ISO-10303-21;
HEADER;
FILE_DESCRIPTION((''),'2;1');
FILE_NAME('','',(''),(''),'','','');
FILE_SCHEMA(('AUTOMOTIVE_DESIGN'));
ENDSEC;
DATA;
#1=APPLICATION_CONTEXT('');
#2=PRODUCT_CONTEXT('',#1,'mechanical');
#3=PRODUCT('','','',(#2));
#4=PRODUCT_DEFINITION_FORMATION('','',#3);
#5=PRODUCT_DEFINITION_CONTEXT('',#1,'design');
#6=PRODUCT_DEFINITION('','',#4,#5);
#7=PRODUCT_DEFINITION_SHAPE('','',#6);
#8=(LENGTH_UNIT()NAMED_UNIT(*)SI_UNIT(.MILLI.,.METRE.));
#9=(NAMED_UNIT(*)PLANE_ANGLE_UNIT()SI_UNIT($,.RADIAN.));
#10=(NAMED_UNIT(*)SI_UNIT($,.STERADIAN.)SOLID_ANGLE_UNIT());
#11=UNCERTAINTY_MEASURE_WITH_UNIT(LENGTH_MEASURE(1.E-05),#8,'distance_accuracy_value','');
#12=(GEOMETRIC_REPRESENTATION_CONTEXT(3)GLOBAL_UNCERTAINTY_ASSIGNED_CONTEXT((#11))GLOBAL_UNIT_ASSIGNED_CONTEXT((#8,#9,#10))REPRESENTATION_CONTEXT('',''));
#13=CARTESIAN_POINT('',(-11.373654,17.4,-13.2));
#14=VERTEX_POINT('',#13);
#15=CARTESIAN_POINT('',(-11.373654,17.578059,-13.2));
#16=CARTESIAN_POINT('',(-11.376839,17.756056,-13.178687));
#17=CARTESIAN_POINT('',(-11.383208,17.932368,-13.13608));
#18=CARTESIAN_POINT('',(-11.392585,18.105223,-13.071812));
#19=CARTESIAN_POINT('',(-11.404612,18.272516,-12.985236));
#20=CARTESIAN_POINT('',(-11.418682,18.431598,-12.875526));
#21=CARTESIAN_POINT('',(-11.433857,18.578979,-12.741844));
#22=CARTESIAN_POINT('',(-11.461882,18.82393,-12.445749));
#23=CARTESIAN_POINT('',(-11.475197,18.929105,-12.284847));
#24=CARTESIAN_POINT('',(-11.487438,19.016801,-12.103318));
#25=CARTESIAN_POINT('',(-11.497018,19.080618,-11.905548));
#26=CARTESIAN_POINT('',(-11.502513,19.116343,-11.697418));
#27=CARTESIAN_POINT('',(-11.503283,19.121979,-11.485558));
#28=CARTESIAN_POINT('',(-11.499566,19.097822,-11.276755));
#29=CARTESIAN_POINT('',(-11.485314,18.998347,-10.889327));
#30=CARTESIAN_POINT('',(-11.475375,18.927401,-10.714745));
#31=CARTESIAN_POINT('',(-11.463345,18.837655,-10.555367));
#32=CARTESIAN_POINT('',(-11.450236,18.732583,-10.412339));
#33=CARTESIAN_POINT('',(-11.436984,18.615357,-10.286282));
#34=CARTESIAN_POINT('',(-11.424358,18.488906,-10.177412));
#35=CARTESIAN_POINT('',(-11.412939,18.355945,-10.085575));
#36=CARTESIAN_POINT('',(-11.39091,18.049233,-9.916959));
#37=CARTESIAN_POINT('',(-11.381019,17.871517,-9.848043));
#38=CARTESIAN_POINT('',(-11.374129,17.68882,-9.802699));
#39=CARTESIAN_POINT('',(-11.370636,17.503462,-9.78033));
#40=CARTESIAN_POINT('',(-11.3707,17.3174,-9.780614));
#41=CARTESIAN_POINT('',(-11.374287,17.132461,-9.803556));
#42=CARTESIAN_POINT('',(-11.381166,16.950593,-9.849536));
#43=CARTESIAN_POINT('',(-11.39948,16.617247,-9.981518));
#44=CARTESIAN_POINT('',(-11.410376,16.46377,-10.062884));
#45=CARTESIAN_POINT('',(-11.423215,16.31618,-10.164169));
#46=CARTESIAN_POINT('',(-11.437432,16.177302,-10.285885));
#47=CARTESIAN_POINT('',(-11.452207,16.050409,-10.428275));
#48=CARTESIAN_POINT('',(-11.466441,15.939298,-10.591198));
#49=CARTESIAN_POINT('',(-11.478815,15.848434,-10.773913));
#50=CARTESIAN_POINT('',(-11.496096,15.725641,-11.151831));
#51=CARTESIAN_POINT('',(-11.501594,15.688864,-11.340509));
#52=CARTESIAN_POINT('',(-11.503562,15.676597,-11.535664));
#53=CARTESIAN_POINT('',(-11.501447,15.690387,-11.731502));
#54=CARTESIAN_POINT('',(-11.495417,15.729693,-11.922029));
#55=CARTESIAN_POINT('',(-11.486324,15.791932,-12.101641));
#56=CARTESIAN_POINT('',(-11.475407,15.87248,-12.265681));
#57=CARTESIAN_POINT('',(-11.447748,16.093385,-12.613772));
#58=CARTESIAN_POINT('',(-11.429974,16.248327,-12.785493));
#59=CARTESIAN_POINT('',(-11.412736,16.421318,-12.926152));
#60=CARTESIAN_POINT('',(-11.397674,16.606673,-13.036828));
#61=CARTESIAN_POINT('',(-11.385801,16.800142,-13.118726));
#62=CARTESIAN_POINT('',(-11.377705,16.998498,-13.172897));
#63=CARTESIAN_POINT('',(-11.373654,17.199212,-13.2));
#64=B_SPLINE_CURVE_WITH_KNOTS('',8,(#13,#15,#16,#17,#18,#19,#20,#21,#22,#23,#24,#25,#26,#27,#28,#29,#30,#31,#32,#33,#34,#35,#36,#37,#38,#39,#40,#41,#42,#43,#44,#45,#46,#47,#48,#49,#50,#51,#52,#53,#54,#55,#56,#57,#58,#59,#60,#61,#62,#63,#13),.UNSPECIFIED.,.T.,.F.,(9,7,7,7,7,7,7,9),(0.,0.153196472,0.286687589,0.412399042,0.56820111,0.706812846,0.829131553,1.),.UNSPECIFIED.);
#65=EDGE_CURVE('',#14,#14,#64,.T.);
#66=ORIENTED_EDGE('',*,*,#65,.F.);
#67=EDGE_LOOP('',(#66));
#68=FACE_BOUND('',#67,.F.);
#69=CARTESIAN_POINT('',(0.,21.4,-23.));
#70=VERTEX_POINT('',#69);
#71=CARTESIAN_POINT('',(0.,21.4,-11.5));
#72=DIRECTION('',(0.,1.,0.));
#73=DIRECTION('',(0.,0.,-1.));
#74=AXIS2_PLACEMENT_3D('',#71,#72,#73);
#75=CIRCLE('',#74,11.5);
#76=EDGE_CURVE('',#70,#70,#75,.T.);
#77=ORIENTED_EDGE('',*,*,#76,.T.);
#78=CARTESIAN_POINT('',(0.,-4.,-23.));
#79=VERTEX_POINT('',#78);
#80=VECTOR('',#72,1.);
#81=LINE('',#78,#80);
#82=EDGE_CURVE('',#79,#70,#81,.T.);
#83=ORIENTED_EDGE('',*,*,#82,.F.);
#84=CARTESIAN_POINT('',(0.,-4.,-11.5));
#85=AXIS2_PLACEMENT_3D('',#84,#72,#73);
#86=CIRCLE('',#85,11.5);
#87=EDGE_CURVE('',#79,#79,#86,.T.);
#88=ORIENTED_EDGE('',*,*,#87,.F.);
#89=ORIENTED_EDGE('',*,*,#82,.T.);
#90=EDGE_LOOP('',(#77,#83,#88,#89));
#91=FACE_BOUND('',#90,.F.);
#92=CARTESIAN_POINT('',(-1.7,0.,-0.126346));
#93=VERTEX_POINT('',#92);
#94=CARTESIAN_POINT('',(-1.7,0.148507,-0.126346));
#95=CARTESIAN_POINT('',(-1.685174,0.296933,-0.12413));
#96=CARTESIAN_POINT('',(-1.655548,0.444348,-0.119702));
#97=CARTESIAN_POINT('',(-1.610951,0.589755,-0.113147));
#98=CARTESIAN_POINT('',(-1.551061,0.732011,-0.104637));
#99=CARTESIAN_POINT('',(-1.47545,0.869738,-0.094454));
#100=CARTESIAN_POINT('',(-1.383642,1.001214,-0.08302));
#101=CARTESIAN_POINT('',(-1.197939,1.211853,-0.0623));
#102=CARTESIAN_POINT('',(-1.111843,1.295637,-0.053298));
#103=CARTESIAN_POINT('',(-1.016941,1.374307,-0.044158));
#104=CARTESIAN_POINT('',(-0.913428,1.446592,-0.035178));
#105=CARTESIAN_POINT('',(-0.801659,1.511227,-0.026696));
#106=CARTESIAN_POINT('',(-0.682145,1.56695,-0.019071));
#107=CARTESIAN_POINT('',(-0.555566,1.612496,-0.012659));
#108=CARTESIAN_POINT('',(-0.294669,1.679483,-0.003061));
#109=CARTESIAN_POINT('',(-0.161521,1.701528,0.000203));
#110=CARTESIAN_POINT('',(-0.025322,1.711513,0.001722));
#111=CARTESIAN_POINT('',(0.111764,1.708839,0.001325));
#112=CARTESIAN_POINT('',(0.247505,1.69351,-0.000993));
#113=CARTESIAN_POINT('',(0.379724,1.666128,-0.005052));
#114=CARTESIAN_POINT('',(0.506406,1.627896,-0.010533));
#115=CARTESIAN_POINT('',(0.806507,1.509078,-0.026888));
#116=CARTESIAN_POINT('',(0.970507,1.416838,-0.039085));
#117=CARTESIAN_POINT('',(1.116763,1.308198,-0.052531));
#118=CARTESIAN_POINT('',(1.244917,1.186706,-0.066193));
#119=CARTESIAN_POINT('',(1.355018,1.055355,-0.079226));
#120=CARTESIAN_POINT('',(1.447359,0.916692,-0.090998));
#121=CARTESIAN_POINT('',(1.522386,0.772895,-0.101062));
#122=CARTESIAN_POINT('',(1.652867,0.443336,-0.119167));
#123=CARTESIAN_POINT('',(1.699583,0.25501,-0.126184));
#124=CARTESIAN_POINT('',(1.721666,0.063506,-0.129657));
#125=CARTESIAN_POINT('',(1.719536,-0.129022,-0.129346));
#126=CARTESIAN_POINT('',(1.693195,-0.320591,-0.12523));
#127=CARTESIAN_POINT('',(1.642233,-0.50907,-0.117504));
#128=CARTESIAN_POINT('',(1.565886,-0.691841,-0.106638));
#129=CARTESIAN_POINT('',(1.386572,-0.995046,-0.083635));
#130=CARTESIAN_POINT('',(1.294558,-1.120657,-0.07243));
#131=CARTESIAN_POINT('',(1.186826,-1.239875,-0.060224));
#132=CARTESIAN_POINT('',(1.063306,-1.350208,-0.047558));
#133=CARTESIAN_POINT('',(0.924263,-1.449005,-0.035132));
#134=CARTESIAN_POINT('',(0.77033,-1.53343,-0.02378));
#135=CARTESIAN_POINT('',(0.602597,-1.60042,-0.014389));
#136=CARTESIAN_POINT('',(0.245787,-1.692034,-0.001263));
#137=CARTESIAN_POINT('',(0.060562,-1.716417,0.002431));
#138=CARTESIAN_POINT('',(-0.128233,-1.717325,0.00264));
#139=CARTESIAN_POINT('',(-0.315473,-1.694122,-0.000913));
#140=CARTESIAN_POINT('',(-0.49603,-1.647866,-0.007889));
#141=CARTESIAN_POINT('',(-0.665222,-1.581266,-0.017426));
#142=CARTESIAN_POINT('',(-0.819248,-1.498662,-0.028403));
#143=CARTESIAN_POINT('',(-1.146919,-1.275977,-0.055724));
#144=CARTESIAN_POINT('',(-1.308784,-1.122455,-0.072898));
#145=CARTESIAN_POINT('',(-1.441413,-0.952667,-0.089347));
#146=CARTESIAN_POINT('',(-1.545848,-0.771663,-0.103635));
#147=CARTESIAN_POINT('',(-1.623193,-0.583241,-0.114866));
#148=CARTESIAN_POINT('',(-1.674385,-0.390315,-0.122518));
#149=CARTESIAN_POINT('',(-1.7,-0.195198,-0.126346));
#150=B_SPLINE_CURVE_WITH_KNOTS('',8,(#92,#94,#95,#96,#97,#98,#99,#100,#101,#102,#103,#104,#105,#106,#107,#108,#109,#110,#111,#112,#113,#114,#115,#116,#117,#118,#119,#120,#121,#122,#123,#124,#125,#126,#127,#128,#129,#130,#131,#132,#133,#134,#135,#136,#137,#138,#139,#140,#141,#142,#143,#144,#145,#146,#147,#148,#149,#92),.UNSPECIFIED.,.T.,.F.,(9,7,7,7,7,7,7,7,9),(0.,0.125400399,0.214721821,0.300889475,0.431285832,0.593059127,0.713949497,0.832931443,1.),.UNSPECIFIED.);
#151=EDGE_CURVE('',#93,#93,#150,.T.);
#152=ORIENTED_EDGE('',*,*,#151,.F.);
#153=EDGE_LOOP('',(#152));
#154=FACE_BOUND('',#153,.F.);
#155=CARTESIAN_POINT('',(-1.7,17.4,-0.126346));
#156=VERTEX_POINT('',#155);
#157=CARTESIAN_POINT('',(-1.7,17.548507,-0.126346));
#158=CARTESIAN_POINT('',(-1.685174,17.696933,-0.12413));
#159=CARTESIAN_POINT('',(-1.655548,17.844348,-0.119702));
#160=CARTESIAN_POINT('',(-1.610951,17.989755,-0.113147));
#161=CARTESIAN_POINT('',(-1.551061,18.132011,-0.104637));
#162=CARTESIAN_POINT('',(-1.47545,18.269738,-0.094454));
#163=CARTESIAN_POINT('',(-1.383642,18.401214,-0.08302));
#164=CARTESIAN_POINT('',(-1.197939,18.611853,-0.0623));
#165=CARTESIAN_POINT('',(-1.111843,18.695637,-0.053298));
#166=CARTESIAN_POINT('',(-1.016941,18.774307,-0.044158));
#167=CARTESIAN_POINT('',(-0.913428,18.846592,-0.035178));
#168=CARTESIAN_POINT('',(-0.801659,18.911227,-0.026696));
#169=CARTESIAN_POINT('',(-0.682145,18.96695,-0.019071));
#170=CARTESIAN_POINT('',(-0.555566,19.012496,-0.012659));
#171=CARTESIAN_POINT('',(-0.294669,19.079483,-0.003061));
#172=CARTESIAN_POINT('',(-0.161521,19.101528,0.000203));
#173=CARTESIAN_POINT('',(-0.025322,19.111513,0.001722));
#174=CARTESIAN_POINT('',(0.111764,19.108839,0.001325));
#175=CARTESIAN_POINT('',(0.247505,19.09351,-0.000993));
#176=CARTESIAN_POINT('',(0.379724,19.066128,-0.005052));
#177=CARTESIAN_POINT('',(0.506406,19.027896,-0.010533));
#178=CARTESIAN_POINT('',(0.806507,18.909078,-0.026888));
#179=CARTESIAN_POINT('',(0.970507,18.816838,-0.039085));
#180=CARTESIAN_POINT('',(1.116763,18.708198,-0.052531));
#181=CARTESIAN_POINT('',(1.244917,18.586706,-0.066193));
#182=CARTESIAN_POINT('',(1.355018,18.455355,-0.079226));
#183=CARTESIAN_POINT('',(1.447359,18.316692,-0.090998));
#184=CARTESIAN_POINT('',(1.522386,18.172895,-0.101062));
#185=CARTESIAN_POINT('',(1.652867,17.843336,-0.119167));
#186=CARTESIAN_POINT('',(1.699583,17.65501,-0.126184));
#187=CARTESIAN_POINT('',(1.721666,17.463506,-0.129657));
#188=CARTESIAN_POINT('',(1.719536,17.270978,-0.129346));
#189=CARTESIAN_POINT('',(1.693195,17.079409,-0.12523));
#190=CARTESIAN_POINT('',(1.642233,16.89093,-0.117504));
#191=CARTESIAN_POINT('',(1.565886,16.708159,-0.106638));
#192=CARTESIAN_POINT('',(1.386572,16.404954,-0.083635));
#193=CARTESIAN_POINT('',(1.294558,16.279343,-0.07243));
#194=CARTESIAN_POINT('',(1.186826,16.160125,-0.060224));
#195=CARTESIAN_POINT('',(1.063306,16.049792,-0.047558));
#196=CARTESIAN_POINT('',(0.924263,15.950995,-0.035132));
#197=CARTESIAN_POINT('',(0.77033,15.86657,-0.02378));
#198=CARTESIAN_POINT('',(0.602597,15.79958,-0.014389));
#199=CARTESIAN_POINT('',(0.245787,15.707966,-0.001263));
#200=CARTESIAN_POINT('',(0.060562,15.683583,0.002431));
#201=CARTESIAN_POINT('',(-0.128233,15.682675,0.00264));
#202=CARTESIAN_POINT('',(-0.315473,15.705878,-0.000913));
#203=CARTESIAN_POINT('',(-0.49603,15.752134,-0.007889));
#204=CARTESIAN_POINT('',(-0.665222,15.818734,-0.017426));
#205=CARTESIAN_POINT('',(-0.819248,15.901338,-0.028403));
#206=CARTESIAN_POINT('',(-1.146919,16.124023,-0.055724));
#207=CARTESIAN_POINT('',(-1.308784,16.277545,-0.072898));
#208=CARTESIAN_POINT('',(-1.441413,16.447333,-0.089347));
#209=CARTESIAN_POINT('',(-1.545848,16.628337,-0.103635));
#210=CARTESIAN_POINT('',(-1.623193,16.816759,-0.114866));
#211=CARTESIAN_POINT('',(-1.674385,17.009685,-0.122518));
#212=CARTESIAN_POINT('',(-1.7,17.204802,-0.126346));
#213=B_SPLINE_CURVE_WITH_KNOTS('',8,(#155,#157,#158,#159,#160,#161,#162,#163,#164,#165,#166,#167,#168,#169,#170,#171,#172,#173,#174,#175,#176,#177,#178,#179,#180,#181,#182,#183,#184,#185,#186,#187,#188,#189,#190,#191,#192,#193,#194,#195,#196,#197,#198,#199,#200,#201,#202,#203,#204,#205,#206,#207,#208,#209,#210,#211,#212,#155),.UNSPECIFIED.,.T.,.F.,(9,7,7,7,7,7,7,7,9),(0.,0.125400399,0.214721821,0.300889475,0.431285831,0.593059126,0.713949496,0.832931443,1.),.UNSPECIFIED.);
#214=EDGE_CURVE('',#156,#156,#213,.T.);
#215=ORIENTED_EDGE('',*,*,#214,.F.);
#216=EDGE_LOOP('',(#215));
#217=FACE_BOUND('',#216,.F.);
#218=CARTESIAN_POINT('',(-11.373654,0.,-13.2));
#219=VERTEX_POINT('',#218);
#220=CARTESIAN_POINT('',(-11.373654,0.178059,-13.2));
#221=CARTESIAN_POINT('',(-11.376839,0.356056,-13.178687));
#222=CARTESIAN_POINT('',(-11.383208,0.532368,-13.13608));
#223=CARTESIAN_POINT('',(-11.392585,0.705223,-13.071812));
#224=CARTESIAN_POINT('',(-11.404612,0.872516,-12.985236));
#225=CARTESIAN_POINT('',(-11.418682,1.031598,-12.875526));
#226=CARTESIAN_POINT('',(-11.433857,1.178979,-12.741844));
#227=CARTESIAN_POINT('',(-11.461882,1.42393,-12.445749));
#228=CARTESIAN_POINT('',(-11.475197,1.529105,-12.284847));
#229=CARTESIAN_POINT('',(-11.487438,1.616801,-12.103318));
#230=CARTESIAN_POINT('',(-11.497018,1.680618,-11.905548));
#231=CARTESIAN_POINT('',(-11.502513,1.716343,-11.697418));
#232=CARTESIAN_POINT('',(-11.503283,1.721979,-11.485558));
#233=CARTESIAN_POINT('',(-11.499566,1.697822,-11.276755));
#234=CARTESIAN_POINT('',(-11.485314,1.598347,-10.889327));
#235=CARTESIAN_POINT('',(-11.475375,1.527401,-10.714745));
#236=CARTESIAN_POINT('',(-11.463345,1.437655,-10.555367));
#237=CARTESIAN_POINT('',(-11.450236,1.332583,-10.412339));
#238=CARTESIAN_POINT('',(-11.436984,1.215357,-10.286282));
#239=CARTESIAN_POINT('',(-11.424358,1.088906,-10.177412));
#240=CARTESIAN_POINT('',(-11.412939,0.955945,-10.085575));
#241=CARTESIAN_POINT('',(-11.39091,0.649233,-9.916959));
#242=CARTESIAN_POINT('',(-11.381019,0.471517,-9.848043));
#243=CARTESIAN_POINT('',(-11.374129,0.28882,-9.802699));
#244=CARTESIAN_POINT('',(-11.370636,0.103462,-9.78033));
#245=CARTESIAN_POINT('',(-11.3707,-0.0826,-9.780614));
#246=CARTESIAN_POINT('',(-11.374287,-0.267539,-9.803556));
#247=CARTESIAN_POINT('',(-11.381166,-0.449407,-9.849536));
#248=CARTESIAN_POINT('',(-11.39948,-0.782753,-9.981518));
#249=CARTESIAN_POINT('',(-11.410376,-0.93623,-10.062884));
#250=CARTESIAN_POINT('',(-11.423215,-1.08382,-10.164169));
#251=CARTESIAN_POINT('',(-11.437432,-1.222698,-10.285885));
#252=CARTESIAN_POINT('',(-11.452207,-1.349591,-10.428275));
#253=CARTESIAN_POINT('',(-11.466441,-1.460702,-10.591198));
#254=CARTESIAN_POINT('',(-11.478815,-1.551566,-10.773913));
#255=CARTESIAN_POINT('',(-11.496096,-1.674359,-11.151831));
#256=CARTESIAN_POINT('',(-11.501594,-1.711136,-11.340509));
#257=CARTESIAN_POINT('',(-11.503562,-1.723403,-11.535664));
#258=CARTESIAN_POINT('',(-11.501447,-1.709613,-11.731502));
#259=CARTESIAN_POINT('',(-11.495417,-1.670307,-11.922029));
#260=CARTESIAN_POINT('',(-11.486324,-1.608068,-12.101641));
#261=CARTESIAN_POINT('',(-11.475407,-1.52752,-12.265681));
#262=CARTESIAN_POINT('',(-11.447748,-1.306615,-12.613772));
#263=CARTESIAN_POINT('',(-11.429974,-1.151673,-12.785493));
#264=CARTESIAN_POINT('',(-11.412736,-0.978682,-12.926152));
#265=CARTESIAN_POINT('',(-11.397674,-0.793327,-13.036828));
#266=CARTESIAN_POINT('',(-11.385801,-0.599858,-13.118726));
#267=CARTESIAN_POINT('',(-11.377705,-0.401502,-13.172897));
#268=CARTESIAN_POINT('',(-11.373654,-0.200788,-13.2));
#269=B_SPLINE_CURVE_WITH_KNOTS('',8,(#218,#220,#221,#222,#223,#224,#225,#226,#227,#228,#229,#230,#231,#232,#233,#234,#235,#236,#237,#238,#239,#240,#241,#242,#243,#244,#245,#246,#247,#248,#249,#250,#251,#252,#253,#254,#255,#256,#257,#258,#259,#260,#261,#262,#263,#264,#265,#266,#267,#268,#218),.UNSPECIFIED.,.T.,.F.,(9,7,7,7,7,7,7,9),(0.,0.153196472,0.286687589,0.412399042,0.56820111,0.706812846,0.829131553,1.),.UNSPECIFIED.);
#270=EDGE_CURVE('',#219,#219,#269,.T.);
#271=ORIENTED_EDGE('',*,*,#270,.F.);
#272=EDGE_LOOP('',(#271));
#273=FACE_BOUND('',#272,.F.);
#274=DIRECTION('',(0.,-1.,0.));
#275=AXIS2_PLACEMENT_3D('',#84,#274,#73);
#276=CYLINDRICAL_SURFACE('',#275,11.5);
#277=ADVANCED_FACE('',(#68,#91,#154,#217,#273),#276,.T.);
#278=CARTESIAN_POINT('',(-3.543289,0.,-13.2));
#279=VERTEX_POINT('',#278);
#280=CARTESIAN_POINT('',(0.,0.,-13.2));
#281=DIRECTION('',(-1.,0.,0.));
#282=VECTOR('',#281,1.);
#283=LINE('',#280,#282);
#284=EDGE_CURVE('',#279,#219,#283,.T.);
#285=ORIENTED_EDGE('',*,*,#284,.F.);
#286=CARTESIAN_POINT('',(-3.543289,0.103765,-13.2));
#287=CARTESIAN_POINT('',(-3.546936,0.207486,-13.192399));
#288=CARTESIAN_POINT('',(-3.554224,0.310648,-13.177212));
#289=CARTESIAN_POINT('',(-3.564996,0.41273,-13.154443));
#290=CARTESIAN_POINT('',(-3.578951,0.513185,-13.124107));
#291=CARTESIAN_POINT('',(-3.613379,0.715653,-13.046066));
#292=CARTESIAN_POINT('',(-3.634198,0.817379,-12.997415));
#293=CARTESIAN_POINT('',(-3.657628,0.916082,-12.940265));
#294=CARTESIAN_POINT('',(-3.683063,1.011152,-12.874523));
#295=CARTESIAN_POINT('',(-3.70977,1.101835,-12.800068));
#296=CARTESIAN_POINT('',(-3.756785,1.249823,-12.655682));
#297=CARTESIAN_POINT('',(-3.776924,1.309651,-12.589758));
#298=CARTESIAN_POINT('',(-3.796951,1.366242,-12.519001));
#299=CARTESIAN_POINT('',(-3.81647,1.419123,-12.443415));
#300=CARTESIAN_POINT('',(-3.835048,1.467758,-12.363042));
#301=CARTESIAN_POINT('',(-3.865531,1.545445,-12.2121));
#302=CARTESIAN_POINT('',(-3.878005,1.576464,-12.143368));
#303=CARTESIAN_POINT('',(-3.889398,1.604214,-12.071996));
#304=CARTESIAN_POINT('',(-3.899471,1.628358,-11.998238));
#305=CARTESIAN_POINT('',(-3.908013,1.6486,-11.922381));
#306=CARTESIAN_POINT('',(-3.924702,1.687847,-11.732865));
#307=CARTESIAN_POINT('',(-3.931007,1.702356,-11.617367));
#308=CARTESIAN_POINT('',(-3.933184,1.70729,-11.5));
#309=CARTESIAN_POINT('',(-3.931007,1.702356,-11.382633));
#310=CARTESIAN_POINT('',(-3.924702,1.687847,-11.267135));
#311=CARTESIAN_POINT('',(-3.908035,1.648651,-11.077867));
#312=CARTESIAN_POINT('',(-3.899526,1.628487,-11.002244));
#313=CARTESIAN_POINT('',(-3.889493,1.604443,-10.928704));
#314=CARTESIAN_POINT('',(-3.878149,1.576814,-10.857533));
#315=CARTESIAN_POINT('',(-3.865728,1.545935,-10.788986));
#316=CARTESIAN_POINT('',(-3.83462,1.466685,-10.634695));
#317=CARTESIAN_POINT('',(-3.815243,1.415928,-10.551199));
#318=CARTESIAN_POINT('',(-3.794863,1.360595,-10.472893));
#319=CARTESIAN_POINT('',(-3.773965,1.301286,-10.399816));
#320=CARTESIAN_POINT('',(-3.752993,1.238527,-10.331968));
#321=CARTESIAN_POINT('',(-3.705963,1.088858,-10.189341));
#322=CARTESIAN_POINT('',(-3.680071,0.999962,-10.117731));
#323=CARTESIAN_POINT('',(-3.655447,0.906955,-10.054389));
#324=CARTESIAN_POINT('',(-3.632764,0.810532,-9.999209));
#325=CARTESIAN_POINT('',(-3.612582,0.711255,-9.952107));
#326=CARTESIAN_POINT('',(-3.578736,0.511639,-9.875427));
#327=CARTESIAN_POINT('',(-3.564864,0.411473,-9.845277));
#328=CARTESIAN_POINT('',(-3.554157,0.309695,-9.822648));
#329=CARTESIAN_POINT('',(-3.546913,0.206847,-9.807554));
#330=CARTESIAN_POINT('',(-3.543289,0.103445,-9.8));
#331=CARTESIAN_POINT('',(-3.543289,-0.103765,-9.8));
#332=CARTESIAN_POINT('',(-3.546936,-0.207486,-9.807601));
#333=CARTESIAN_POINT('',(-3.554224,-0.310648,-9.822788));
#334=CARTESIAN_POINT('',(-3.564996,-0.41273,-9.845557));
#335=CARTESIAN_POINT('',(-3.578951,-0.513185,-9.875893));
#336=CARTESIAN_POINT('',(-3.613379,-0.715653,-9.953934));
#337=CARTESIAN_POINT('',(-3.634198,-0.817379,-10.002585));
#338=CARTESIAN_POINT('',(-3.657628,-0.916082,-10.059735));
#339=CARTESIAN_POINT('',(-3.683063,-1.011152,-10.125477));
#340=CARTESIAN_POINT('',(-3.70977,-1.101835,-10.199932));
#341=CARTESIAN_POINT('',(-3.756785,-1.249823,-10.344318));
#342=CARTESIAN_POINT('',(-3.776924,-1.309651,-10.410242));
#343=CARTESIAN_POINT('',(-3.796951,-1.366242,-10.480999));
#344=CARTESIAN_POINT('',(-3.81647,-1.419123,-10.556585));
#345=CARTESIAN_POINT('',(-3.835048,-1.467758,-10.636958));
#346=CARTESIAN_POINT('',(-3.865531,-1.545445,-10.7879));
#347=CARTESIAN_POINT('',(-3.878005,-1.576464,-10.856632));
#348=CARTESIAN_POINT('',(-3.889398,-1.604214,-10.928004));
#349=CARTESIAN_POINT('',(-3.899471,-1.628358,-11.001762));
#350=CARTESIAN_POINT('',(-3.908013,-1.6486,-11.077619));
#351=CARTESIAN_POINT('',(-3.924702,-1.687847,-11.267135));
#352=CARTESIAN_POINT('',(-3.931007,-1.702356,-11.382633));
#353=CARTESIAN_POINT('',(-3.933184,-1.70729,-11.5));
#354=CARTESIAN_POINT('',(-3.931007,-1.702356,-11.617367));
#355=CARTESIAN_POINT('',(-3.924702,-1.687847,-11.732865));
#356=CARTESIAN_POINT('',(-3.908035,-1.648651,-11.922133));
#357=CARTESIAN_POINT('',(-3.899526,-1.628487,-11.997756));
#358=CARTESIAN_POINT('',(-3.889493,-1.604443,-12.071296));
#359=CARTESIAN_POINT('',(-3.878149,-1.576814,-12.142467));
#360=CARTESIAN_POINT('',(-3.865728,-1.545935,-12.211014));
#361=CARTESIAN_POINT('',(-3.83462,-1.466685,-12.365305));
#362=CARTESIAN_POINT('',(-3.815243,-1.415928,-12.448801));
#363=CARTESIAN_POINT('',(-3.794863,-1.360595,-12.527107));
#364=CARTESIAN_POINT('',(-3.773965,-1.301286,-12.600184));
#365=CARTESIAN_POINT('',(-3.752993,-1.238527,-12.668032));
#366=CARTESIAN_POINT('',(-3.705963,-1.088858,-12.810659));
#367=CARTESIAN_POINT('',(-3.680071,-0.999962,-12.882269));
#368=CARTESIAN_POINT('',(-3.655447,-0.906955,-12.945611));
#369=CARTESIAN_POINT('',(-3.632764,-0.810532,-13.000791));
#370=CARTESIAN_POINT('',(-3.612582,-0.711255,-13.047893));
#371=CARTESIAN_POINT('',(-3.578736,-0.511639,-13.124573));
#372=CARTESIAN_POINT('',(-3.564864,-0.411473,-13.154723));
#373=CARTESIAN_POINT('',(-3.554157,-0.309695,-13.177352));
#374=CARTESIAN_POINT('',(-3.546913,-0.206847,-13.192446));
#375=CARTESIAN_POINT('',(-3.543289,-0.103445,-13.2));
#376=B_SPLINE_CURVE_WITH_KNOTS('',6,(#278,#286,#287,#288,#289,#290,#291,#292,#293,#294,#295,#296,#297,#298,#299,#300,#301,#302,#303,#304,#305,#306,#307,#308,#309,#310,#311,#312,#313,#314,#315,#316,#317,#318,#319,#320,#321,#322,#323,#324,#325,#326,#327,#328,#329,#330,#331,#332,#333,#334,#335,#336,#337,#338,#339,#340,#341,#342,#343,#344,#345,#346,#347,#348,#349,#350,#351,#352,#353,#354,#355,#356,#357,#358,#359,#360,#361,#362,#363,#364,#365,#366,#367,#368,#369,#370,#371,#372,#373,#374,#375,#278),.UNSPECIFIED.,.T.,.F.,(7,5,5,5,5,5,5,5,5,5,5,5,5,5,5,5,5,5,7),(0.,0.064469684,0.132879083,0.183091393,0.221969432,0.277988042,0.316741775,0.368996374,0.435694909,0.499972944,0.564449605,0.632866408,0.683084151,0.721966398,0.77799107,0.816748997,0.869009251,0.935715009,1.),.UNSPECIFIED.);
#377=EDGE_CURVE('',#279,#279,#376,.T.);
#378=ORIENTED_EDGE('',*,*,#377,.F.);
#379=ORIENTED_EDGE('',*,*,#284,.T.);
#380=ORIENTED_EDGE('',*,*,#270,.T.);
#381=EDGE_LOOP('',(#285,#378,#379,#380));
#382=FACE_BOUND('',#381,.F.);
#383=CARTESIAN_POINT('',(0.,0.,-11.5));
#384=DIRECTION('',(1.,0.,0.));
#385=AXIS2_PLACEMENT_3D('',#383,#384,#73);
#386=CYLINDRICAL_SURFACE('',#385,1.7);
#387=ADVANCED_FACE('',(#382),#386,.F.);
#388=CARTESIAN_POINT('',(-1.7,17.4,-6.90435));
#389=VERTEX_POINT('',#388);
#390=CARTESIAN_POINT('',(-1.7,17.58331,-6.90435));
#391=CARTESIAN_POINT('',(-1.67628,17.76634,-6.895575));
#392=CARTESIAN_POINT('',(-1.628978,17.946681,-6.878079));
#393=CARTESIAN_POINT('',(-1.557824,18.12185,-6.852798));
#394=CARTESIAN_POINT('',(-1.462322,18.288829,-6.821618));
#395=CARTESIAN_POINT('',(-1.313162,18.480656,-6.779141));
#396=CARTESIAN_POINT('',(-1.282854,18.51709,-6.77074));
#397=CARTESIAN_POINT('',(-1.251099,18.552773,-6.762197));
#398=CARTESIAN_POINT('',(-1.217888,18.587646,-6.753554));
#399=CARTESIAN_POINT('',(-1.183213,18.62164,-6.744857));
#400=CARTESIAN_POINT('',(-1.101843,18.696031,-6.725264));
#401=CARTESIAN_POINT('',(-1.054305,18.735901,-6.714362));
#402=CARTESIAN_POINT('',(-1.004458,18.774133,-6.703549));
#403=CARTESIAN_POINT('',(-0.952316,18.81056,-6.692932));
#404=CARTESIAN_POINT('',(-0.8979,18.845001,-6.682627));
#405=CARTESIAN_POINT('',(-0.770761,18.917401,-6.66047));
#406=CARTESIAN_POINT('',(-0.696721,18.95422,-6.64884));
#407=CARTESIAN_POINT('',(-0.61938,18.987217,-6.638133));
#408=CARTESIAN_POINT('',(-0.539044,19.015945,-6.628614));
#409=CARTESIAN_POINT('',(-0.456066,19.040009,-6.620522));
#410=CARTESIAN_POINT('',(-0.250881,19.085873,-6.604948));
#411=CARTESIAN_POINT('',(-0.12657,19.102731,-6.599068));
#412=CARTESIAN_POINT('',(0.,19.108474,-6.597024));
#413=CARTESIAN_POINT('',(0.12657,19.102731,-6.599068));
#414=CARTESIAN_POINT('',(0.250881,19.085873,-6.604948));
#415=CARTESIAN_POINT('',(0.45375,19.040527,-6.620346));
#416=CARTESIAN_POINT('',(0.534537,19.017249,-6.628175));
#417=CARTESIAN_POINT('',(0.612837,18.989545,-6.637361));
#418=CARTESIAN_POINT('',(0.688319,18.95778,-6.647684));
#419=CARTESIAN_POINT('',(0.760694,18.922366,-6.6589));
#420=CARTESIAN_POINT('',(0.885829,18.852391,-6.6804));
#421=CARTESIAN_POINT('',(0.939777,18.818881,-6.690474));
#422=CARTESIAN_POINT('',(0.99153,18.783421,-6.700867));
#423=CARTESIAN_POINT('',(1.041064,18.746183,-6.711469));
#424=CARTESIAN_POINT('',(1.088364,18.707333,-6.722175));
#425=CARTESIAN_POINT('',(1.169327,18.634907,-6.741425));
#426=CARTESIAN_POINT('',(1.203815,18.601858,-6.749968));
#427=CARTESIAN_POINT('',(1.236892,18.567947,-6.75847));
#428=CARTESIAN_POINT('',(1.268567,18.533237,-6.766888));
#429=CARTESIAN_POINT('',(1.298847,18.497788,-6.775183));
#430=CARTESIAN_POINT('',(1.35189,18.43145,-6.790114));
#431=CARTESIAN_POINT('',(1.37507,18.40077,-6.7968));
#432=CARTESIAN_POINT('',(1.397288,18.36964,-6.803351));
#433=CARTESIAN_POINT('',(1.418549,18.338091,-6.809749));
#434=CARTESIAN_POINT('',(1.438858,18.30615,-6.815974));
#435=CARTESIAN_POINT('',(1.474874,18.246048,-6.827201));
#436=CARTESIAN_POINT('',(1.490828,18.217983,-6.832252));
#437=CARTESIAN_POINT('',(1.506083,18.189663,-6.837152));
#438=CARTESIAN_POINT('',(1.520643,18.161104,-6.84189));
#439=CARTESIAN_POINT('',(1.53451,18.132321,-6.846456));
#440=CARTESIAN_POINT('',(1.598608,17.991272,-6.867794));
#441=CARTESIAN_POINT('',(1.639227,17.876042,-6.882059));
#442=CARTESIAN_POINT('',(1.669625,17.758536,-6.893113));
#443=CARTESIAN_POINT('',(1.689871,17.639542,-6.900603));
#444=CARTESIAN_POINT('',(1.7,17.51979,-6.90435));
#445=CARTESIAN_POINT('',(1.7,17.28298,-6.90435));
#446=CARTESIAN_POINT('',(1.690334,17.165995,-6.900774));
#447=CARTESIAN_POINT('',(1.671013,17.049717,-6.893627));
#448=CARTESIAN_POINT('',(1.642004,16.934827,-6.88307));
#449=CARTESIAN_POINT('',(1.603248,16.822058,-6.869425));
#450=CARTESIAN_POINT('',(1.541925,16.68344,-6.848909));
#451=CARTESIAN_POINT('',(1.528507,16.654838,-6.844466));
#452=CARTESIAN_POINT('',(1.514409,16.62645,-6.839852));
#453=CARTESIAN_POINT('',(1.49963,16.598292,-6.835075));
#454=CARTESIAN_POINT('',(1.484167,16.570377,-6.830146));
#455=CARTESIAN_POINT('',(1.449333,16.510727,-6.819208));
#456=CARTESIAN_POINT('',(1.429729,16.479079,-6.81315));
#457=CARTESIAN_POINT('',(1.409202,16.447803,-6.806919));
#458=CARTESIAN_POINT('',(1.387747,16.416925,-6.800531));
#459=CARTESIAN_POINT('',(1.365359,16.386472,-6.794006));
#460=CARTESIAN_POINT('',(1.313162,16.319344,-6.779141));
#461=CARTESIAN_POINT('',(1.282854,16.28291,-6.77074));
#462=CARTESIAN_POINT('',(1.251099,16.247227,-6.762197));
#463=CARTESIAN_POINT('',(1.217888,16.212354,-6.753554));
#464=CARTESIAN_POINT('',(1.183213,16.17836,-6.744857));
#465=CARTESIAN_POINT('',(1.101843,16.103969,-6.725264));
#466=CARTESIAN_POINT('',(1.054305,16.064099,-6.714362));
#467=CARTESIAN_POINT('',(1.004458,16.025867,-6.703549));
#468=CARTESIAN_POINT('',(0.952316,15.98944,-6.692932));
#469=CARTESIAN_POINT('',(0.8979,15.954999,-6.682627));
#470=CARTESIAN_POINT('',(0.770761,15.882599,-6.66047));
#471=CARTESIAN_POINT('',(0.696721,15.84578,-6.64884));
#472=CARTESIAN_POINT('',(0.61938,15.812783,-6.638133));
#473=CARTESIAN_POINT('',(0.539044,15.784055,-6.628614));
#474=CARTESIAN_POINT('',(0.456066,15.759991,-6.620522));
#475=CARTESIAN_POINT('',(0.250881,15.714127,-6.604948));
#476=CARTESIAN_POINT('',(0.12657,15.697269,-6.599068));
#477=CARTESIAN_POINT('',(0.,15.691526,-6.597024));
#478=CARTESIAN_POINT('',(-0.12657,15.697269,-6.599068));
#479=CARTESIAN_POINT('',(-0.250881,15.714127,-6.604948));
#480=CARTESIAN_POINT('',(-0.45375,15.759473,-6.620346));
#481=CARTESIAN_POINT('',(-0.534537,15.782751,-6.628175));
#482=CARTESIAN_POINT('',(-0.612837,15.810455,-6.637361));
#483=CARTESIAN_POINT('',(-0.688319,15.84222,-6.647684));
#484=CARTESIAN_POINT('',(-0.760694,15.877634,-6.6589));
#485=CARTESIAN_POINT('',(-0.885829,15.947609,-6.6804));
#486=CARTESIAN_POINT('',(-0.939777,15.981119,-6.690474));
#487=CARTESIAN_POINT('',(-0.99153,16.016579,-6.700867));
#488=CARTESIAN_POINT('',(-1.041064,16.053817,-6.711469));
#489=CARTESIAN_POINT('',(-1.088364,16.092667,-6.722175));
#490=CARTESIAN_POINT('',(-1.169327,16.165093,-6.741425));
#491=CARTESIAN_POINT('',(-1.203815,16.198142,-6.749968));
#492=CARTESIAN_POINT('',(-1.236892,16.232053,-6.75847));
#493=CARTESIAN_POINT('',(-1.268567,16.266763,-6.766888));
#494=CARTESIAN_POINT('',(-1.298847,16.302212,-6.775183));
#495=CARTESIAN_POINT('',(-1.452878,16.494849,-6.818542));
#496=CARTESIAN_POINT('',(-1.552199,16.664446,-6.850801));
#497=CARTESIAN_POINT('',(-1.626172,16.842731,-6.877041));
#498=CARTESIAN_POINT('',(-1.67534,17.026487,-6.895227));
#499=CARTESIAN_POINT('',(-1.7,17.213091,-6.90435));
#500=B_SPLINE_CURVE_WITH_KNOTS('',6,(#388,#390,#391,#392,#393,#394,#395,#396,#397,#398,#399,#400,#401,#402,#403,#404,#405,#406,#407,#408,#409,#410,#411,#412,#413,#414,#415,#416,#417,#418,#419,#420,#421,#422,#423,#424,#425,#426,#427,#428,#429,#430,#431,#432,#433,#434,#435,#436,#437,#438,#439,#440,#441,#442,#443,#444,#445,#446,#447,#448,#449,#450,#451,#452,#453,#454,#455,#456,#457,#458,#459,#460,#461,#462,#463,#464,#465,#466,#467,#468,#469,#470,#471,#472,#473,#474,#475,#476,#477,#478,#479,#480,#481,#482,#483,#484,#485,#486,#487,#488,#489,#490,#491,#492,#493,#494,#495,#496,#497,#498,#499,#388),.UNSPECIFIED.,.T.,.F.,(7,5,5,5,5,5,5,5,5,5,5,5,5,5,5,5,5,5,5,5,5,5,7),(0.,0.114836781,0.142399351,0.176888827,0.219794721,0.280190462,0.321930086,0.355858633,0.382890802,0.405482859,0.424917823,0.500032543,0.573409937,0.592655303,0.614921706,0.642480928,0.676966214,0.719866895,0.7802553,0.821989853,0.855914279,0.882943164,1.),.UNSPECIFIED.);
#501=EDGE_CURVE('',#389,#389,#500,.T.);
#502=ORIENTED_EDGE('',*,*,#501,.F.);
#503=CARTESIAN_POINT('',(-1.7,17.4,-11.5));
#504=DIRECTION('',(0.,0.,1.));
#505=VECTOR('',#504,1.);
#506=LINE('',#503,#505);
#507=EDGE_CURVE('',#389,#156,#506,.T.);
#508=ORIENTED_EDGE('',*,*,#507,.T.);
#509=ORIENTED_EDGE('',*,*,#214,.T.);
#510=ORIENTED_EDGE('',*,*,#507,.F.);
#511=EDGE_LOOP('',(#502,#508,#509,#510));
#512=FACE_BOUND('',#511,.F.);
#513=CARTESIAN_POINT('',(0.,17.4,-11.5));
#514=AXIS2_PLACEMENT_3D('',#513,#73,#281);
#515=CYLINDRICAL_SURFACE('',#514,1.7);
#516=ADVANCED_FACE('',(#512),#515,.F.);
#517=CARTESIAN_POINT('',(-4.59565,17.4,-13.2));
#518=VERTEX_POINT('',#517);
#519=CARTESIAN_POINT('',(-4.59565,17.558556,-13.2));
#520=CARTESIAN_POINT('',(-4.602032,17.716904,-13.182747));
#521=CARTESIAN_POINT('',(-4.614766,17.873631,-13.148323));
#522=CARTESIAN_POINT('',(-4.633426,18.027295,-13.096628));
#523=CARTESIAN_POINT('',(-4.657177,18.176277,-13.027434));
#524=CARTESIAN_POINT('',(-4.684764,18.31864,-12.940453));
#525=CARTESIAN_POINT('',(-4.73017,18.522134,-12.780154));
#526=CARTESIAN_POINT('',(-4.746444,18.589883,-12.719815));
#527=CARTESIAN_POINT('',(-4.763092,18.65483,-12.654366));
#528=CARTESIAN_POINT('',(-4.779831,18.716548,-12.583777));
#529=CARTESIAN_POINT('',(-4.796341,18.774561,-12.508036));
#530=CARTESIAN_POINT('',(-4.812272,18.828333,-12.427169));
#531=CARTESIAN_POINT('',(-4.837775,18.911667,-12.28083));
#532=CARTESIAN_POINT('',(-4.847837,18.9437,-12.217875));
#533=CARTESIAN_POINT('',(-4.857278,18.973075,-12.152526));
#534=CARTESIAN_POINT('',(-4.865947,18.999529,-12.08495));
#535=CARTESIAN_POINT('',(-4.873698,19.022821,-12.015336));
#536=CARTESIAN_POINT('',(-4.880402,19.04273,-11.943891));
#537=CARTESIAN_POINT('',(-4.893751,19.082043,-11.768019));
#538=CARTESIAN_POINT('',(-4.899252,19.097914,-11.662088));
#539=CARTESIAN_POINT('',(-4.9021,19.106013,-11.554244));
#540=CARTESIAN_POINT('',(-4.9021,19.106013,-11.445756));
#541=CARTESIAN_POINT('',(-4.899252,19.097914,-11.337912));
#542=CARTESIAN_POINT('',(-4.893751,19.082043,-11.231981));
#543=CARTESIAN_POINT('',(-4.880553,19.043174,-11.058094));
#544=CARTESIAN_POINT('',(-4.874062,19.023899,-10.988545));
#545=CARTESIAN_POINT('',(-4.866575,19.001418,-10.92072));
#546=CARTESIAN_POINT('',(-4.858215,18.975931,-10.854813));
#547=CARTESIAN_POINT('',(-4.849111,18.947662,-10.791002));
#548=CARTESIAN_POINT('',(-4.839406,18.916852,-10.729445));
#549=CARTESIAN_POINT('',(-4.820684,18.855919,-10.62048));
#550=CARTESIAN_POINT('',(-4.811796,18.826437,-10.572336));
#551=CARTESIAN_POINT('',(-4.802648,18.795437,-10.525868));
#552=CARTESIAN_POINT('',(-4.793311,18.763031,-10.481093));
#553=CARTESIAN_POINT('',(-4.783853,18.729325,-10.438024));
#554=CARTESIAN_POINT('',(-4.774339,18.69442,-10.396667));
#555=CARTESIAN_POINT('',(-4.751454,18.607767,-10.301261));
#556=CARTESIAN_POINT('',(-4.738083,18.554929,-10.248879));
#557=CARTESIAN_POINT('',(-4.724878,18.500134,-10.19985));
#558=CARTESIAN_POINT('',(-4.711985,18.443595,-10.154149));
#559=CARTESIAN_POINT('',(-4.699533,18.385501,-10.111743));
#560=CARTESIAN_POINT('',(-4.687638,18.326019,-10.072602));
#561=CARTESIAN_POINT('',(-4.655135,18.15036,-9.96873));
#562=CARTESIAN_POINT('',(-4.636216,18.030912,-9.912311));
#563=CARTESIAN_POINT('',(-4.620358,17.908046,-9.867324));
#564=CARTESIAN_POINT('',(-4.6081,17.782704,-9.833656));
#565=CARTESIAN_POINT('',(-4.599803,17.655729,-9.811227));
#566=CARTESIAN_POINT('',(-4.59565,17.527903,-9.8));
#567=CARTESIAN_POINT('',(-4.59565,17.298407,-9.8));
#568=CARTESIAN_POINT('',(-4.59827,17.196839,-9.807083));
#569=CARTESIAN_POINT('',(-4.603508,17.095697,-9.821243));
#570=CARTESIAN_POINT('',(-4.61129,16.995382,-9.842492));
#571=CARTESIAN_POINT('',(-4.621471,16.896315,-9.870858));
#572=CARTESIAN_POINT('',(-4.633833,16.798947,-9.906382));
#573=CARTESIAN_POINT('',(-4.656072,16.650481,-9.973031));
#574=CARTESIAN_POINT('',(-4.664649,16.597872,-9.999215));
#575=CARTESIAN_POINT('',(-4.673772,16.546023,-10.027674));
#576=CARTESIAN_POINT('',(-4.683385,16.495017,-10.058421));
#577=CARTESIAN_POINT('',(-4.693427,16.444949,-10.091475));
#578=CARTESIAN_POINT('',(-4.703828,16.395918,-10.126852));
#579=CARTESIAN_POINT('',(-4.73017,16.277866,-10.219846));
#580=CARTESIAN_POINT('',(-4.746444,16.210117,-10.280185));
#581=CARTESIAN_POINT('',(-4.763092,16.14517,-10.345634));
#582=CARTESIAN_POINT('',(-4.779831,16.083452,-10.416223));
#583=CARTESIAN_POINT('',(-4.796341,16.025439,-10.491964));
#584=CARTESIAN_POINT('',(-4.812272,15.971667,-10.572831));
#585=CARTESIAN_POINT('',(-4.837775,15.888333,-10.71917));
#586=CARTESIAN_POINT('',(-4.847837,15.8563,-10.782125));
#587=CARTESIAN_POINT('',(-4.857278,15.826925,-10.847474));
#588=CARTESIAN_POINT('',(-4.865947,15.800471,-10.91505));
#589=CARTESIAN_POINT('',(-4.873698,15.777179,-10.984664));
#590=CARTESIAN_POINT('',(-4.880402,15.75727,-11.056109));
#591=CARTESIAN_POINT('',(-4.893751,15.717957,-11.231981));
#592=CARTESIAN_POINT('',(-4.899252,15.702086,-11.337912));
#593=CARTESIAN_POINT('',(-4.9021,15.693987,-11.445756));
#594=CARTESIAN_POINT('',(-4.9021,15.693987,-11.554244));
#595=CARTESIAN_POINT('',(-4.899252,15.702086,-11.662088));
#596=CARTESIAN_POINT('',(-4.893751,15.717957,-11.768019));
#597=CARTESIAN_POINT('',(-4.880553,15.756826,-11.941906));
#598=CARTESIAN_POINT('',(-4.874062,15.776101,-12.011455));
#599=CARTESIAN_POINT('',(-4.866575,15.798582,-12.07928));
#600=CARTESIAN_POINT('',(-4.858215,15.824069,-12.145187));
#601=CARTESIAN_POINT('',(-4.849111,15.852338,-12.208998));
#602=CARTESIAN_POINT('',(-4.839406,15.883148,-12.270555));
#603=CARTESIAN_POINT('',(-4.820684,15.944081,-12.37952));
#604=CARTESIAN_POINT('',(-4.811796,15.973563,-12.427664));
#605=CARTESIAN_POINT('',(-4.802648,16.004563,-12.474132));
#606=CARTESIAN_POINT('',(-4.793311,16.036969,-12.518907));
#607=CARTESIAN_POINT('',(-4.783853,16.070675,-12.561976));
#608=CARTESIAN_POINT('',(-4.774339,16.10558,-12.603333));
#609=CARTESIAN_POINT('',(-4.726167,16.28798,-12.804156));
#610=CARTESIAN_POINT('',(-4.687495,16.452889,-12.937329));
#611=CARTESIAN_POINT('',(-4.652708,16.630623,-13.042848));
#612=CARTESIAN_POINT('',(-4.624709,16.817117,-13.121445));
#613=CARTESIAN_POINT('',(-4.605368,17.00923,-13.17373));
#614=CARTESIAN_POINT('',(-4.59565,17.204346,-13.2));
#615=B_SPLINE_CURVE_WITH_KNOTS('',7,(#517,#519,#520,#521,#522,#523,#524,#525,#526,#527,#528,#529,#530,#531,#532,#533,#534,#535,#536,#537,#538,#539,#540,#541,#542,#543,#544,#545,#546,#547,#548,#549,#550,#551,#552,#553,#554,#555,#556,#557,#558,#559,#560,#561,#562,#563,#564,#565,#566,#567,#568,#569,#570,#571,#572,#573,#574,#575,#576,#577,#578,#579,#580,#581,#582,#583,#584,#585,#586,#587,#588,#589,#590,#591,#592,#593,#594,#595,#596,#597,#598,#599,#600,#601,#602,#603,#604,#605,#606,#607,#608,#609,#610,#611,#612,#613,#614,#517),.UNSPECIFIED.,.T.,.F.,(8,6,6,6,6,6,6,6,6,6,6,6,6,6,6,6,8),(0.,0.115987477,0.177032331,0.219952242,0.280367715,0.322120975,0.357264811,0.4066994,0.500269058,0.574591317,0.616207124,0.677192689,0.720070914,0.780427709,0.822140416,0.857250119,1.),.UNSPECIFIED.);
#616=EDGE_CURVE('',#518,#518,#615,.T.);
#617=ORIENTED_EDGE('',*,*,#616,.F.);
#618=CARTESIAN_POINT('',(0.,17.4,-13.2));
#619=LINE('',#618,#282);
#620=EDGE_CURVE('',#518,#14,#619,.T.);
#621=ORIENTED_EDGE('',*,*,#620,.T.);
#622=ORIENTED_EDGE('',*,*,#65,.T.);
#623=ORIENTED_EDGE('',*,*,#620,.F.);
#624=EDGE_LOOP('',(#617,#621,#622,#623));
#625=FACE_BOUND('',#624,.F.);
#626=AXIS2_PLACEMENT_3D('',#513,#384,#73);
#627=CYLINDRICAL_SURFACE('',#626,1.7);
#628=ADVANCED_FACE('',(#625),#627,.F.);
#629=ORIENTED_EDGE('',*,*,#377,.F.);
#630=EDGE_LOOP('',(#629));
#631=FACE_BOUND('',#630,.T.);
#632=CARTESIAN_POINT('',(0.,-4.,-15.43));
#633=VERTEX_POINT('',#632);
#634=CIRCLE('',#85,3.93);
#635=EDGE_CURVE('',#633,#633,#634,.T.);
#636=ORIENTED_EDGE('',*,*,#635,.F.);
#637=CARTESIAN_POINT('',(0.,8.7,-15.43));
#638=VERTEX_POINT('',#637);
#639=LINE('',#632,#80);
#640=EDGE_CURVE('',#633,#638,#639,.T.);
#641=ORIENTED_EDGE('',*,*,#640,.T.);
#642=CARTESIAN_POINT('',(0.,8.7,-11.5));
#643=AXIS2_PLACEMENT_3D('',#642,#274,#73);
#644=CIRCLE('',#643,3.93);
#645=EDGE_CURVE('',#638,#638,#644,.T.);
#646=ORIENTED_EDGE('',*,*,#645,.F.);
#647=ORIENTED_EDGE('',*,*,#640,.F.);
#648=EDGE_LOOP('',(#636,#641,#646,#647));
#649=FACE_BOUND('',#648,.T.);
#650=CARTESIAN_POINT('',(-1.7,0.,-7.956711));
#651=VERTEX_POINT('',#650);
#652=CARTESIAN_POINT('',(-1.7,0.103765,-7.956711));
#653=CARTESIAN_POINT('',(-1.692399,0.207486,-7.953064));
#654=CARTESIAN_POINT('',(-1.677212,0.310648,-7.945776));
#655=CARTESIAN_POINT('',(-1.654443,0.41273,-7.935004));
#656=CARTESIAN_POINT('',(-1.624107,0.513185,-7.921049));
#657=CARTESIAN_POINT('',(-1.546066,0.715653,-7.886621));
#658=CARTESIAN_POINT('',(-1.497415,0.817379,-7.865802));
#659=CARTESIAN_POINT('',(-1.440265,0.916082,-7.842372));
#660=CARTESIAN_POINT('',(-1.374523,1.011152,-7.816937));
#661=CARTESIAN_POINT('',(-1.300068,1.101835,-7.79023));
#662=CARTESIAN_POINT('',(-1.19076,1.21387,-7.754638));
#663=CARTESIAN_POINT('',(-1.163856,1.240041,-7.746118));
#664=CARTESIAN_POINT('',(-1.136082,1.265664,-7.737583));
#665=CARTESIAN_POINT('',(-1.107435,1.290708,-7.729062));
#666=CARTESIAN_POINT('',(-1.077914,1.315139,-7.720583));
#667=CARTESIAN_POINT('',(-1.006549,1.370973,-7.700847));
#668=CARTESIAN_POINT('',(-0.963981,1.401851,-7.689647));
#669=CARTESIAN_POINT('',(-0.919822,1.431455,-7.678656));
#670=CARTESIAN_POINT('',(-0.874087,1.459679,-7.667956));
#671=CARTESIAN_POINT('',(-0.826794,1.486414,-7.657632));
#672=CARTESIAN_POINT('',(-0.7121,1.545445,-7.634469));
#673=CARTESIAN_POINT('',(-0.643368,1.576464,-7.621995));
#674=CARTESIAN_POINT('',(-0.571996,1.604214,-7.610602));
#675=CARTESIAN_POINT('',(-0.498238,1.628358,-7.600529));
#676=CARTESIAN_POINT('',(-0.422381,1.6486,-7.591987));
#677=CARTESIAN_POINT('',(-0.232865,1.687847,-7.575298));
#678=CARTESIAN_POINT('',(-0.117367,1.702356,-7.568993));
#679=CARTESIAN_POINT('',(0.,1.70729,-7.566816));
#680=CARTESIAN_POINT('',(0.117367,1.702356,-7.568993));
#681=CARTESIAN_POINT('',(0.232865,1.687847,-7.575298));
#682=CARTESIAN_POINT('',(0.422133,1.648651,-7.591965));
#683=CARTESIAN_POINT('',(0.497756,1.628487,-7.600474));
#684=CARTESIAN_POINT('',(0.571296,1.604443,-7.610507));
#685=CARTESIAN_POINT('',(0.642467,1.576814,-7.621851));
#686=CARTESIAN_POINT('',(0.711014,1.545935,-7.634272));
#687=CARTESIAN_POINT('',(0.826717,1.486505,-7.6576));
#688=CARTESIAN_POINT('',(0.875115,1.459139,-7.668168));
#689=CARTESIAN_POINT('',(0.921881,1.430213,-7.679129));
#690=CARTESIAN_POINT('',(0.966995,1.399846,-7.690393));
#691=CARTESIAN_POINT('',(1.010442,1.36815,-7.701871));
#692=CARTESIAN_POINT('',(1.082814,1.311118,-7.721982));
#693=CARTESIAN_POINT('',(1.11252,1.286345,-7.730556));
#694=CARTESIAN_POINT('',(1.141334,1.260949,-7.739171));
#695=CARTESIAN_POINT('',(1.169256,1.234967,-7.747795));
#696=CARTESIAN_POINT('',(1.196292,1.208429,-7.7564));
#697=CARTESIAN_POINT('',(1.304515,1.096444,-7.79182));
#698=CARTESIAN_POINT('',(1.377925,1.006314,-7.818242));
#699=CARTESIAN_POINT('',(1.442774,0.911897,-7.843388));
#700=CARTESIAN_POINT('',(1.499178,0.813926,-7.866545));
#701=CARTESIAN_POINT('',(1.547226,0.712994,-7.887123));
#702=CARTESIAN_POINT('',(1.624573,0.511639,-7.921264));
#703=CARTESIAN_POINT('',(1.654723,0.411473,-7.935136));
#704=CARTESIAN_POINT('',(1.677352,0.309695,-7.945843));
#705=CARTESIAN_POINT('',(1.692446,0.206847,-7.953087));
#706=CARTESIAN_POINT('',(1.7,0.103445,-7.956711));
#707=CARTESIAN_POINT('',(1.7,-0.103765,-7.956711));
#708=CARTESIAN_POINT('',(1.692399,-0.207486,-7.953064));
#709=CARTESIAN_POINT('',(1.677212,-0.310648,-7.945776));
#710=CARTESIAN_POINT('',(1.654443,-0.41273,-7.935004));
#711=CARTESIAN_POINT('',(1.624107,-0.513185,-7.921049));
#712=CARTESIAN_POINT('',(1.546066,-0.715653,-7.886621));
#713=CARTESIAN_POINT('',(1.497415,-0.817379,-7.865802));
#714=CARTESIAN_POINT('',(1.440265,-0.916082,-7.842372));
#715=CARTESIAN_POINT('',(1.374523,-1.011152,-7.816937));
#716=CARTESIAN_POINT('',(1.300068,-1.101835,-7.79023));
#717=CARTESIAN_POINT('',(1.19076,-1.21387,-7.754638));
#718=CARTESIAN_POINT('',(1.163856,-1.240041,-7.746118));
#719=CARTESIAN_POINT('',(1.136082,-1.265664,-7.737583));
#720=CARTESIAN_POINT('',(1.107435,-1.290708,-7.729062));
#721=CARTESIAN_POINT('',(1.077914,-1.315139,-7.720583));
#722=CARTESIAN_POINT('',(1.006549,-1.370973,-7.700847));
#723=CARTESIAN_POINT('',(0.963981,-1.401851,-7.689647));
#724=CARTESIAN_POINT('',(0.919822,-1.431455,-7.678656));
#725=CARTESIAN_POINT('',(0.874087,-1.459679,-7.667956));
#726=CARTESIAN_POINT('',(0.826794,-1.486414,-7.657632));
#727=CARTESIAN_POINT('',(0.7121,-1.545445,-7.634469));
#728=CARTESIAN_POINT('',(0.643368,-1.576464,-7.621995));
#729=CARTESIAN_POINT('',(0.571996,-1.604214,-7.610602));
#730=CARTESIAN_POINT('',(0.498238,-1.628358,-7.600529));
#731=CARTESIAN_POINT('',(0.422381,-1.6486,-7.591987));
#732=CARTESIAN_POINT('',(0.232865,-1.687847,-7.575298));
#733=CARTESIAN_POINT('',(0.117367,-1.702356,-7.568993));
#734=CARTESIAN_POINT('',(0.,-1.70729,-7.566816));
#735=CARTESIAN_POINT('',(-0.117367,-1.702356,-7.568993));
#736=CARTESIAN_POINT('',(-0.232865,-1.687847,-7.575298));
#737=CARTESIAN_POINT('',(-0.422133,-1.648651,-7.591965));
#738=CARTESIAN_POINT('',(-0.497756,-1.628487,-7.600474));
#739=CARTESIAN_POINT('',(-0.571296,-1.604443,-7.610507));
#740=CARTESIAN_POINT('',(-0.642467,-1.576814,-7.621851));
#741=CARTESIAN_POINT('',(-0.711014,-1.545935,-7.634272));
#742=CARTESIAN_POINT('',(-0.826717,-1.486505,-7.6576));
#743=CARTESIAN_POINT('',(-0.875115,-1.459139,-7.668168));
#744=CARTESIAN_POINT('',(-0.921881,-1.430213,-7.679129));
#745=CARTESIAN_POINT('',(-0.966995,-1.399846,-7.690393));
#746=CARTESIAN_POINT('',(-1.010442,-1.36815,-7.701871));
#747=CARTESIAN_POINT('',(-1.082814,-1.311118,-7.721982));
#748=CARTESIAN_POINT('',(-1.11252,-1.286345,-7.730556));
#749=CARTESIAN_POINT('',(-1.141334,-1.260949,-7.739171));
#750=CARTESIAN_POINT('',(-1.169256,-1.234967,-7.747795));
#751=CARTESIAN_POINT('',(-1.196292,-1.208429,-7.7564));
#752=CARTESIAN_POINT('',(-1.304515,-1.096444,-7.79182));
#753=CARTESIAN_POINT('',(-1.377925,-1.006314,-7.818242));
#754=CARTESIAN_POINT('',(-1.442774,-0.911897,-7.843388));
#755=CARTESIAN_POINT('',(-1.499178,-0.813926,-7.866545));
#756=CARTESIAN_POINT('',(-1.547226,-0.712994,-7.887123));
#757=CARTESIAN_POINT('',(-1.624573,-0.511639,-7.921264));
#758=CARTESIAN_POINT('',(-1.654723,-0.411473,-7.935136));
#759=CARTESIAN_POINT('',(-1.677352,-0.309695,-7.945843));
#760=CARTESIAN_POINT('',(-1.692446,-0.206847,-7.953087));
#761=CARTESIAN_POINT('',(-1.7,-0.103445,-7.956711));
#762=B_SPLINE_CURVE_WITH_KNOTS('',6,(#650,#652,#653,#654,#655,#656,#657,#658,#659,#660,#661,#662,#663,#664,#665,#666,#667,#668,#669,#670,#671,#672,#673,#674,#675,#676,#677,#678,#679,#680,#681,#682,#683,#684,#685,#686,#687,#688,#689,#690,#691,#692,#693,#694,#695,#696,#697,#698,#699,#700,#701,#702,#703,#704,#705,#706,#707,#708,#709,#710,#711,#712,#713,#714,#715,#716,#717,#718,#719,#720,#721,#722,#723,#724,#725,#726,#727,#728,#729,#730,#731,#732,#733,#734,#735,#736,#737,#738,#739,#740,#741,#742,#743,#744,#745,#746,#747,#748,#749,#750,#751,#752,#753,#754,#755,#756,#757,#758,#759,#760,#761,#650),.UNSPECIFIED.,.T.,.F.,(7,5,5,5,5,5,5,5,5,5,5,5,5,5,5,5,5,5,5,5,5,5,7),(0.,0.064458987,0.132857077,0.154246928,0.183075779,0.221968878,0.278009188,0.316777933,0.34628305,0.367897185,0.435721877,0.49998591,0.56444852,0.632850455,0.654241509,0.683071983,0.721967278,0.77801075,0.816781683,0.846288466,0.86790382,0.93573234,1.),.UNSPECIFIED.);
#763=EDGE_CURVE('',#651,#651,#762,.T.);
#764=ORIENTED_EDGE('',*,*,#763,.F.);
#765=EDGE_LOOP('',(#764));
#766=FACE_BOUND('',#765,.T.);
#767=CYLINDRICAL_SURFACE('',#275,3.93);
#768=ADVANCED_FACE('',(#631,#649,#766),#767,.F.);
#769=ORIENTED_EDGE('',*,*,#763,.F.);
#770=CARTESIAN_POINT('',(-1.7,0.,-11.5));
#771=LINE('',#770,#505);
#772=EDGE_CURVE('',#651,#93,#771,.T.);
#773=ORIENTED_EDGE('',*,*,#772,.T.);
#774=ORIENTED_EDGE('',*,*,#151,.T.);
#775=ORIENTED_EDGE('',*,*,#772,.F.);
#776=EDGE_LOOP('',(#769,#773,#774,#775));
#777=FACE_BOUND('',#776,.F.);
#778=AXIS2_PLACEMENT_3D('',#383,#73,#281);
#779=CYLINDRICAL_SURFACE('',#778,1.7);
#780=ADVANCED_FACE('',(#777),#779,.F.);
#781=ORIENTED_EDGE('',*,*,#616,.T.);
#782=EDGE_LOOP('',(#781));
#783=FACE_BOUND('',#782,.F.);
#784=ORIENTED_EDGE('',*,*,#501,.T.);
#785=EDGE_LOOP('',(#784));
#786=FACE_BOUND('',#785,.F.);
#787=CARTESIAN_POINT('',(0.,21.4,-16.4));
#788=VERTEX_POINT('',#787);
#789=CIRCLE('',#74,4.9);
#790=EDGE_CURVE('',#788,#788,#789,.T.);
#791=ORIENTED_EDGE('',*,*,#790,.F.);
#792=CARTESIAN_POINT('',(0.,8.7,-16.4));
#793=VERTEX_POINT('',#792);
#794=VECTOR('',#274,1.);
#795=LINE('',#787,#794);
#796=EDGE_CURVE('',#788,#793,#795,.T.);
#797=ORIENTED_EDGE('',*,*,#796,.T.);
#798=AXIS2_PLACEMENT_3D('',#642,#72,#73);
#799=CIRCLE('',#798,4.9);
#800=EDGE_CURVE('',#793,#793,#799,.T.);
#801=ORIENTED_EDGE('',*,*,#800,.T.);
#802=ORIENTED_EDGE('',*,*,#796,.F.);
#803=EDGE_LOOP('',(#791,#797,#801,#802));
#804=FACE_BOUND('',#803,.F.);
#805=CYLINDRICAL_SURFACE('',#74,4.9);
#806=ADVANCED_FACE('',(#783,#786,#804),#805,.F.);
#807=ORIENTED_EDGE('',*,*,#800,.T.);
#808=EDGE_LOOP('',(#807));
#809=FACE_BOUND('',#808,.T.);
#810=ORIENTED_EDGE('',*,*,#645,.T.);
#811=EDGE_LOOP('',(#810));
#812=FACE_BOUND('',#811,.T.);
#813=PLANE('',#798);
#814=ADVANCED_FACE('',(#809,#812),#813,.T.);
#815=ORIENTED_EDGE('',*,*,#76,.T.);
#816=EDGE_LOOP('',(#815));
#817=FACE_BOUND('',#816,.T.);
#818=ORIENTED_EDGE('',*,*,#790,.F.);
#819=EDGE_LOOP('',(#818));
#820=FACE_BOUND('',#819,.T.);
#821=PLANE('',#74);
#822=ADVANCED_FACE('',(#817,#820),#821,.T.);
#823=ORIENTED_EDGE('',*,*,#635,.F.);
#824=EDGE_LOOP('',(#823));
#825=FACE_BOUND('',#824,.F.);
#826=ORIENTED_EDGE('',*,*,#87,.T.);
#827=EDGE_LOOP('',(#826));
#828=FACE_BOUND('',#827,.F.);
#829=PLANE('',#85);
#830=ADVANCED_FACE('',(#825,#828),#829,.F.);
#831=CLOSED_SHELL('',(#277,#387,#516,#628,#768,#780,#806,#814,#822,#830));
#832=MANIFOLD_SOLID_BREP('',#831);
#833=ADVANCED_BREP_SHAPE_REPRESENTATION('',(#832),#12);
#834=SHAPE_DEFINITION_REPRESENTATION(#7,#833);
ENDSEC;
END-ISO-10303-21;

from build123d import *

# Parameters (mm, degrees)
SKETCH_R                 = 11.5
SKETCH_R_2               = 3.93
PAD_DEPTH                = 25.4
SKETCH001_R              = 4.9
POCKET_DEPTH             = 12.7
SKETCH002_R              = 1.7
POCKET001_DEPTH          = 11.501
SKETCH003_R              = 1.7
POCKET002_DEPTH          = 11.501
CLONE002_PITCH_ANGLE     = 90
CLONE002_PLACEMENT_ANGLE = 90


with BuildPart() as part:
    # Sketch → Pad (new body)
    with BuildSketch(Plane.XY):
        Circle(SKETCH_R)
        Circle(SKETCH_R_2, mode=Mode.SUBTRACT)
    extrude(amount=PAD_DEPTH)

    # Sketch001 (on Face4 of Pad) → Pocket (cut)
    with BuildSketch(Plane.XY.offset(25.4)):
        Circle(SKETCH001_R)
    extrude(amount=-POCKET_DEPTH, mode=Mode.SUBTRACT)

    # Sketch002 → Pocket001 (cut, through all)
    with BuildSketch(Plane.XZ):
        with Locations((0, 4)):
            Circle(SKETCH002_R)
        with Locations((0, 21.4)):
            Circle(SKETCH002_R)
    extrude(amount=-POCKET001_DEPTH, mode=Mode.SUBTRACT)

    # Sketch003 → Pocket002 (cut, through all)
    with BuildSketch(Plane.YZ):
        with Locations((0, 4)):
            Circle(SKETCH003_R)
        with Locations((0, 21.4)):
            Circle(SKETCH003_R)
    extrude(amount=-POCKET002_DEPTH, mode=Mode.SUBTRACT)


with BuildPart() as part_1:
    # Clone002 pitch: moved
    add(part.part.rotate(Axis((0, 0, 0), (0, 1, 0)), CLONE002_PITCH_ANGLE))


with BuildPart() as part_2:
    # Clone002 placement: moved
    add(part_1.part.moved(Location((0, -4, -11.5))).rotate(Axis((0, -4, -11.5), (0, 0, 1)), CLONE002_PLACEMENT_ANGLE))


solid = part_2.part
